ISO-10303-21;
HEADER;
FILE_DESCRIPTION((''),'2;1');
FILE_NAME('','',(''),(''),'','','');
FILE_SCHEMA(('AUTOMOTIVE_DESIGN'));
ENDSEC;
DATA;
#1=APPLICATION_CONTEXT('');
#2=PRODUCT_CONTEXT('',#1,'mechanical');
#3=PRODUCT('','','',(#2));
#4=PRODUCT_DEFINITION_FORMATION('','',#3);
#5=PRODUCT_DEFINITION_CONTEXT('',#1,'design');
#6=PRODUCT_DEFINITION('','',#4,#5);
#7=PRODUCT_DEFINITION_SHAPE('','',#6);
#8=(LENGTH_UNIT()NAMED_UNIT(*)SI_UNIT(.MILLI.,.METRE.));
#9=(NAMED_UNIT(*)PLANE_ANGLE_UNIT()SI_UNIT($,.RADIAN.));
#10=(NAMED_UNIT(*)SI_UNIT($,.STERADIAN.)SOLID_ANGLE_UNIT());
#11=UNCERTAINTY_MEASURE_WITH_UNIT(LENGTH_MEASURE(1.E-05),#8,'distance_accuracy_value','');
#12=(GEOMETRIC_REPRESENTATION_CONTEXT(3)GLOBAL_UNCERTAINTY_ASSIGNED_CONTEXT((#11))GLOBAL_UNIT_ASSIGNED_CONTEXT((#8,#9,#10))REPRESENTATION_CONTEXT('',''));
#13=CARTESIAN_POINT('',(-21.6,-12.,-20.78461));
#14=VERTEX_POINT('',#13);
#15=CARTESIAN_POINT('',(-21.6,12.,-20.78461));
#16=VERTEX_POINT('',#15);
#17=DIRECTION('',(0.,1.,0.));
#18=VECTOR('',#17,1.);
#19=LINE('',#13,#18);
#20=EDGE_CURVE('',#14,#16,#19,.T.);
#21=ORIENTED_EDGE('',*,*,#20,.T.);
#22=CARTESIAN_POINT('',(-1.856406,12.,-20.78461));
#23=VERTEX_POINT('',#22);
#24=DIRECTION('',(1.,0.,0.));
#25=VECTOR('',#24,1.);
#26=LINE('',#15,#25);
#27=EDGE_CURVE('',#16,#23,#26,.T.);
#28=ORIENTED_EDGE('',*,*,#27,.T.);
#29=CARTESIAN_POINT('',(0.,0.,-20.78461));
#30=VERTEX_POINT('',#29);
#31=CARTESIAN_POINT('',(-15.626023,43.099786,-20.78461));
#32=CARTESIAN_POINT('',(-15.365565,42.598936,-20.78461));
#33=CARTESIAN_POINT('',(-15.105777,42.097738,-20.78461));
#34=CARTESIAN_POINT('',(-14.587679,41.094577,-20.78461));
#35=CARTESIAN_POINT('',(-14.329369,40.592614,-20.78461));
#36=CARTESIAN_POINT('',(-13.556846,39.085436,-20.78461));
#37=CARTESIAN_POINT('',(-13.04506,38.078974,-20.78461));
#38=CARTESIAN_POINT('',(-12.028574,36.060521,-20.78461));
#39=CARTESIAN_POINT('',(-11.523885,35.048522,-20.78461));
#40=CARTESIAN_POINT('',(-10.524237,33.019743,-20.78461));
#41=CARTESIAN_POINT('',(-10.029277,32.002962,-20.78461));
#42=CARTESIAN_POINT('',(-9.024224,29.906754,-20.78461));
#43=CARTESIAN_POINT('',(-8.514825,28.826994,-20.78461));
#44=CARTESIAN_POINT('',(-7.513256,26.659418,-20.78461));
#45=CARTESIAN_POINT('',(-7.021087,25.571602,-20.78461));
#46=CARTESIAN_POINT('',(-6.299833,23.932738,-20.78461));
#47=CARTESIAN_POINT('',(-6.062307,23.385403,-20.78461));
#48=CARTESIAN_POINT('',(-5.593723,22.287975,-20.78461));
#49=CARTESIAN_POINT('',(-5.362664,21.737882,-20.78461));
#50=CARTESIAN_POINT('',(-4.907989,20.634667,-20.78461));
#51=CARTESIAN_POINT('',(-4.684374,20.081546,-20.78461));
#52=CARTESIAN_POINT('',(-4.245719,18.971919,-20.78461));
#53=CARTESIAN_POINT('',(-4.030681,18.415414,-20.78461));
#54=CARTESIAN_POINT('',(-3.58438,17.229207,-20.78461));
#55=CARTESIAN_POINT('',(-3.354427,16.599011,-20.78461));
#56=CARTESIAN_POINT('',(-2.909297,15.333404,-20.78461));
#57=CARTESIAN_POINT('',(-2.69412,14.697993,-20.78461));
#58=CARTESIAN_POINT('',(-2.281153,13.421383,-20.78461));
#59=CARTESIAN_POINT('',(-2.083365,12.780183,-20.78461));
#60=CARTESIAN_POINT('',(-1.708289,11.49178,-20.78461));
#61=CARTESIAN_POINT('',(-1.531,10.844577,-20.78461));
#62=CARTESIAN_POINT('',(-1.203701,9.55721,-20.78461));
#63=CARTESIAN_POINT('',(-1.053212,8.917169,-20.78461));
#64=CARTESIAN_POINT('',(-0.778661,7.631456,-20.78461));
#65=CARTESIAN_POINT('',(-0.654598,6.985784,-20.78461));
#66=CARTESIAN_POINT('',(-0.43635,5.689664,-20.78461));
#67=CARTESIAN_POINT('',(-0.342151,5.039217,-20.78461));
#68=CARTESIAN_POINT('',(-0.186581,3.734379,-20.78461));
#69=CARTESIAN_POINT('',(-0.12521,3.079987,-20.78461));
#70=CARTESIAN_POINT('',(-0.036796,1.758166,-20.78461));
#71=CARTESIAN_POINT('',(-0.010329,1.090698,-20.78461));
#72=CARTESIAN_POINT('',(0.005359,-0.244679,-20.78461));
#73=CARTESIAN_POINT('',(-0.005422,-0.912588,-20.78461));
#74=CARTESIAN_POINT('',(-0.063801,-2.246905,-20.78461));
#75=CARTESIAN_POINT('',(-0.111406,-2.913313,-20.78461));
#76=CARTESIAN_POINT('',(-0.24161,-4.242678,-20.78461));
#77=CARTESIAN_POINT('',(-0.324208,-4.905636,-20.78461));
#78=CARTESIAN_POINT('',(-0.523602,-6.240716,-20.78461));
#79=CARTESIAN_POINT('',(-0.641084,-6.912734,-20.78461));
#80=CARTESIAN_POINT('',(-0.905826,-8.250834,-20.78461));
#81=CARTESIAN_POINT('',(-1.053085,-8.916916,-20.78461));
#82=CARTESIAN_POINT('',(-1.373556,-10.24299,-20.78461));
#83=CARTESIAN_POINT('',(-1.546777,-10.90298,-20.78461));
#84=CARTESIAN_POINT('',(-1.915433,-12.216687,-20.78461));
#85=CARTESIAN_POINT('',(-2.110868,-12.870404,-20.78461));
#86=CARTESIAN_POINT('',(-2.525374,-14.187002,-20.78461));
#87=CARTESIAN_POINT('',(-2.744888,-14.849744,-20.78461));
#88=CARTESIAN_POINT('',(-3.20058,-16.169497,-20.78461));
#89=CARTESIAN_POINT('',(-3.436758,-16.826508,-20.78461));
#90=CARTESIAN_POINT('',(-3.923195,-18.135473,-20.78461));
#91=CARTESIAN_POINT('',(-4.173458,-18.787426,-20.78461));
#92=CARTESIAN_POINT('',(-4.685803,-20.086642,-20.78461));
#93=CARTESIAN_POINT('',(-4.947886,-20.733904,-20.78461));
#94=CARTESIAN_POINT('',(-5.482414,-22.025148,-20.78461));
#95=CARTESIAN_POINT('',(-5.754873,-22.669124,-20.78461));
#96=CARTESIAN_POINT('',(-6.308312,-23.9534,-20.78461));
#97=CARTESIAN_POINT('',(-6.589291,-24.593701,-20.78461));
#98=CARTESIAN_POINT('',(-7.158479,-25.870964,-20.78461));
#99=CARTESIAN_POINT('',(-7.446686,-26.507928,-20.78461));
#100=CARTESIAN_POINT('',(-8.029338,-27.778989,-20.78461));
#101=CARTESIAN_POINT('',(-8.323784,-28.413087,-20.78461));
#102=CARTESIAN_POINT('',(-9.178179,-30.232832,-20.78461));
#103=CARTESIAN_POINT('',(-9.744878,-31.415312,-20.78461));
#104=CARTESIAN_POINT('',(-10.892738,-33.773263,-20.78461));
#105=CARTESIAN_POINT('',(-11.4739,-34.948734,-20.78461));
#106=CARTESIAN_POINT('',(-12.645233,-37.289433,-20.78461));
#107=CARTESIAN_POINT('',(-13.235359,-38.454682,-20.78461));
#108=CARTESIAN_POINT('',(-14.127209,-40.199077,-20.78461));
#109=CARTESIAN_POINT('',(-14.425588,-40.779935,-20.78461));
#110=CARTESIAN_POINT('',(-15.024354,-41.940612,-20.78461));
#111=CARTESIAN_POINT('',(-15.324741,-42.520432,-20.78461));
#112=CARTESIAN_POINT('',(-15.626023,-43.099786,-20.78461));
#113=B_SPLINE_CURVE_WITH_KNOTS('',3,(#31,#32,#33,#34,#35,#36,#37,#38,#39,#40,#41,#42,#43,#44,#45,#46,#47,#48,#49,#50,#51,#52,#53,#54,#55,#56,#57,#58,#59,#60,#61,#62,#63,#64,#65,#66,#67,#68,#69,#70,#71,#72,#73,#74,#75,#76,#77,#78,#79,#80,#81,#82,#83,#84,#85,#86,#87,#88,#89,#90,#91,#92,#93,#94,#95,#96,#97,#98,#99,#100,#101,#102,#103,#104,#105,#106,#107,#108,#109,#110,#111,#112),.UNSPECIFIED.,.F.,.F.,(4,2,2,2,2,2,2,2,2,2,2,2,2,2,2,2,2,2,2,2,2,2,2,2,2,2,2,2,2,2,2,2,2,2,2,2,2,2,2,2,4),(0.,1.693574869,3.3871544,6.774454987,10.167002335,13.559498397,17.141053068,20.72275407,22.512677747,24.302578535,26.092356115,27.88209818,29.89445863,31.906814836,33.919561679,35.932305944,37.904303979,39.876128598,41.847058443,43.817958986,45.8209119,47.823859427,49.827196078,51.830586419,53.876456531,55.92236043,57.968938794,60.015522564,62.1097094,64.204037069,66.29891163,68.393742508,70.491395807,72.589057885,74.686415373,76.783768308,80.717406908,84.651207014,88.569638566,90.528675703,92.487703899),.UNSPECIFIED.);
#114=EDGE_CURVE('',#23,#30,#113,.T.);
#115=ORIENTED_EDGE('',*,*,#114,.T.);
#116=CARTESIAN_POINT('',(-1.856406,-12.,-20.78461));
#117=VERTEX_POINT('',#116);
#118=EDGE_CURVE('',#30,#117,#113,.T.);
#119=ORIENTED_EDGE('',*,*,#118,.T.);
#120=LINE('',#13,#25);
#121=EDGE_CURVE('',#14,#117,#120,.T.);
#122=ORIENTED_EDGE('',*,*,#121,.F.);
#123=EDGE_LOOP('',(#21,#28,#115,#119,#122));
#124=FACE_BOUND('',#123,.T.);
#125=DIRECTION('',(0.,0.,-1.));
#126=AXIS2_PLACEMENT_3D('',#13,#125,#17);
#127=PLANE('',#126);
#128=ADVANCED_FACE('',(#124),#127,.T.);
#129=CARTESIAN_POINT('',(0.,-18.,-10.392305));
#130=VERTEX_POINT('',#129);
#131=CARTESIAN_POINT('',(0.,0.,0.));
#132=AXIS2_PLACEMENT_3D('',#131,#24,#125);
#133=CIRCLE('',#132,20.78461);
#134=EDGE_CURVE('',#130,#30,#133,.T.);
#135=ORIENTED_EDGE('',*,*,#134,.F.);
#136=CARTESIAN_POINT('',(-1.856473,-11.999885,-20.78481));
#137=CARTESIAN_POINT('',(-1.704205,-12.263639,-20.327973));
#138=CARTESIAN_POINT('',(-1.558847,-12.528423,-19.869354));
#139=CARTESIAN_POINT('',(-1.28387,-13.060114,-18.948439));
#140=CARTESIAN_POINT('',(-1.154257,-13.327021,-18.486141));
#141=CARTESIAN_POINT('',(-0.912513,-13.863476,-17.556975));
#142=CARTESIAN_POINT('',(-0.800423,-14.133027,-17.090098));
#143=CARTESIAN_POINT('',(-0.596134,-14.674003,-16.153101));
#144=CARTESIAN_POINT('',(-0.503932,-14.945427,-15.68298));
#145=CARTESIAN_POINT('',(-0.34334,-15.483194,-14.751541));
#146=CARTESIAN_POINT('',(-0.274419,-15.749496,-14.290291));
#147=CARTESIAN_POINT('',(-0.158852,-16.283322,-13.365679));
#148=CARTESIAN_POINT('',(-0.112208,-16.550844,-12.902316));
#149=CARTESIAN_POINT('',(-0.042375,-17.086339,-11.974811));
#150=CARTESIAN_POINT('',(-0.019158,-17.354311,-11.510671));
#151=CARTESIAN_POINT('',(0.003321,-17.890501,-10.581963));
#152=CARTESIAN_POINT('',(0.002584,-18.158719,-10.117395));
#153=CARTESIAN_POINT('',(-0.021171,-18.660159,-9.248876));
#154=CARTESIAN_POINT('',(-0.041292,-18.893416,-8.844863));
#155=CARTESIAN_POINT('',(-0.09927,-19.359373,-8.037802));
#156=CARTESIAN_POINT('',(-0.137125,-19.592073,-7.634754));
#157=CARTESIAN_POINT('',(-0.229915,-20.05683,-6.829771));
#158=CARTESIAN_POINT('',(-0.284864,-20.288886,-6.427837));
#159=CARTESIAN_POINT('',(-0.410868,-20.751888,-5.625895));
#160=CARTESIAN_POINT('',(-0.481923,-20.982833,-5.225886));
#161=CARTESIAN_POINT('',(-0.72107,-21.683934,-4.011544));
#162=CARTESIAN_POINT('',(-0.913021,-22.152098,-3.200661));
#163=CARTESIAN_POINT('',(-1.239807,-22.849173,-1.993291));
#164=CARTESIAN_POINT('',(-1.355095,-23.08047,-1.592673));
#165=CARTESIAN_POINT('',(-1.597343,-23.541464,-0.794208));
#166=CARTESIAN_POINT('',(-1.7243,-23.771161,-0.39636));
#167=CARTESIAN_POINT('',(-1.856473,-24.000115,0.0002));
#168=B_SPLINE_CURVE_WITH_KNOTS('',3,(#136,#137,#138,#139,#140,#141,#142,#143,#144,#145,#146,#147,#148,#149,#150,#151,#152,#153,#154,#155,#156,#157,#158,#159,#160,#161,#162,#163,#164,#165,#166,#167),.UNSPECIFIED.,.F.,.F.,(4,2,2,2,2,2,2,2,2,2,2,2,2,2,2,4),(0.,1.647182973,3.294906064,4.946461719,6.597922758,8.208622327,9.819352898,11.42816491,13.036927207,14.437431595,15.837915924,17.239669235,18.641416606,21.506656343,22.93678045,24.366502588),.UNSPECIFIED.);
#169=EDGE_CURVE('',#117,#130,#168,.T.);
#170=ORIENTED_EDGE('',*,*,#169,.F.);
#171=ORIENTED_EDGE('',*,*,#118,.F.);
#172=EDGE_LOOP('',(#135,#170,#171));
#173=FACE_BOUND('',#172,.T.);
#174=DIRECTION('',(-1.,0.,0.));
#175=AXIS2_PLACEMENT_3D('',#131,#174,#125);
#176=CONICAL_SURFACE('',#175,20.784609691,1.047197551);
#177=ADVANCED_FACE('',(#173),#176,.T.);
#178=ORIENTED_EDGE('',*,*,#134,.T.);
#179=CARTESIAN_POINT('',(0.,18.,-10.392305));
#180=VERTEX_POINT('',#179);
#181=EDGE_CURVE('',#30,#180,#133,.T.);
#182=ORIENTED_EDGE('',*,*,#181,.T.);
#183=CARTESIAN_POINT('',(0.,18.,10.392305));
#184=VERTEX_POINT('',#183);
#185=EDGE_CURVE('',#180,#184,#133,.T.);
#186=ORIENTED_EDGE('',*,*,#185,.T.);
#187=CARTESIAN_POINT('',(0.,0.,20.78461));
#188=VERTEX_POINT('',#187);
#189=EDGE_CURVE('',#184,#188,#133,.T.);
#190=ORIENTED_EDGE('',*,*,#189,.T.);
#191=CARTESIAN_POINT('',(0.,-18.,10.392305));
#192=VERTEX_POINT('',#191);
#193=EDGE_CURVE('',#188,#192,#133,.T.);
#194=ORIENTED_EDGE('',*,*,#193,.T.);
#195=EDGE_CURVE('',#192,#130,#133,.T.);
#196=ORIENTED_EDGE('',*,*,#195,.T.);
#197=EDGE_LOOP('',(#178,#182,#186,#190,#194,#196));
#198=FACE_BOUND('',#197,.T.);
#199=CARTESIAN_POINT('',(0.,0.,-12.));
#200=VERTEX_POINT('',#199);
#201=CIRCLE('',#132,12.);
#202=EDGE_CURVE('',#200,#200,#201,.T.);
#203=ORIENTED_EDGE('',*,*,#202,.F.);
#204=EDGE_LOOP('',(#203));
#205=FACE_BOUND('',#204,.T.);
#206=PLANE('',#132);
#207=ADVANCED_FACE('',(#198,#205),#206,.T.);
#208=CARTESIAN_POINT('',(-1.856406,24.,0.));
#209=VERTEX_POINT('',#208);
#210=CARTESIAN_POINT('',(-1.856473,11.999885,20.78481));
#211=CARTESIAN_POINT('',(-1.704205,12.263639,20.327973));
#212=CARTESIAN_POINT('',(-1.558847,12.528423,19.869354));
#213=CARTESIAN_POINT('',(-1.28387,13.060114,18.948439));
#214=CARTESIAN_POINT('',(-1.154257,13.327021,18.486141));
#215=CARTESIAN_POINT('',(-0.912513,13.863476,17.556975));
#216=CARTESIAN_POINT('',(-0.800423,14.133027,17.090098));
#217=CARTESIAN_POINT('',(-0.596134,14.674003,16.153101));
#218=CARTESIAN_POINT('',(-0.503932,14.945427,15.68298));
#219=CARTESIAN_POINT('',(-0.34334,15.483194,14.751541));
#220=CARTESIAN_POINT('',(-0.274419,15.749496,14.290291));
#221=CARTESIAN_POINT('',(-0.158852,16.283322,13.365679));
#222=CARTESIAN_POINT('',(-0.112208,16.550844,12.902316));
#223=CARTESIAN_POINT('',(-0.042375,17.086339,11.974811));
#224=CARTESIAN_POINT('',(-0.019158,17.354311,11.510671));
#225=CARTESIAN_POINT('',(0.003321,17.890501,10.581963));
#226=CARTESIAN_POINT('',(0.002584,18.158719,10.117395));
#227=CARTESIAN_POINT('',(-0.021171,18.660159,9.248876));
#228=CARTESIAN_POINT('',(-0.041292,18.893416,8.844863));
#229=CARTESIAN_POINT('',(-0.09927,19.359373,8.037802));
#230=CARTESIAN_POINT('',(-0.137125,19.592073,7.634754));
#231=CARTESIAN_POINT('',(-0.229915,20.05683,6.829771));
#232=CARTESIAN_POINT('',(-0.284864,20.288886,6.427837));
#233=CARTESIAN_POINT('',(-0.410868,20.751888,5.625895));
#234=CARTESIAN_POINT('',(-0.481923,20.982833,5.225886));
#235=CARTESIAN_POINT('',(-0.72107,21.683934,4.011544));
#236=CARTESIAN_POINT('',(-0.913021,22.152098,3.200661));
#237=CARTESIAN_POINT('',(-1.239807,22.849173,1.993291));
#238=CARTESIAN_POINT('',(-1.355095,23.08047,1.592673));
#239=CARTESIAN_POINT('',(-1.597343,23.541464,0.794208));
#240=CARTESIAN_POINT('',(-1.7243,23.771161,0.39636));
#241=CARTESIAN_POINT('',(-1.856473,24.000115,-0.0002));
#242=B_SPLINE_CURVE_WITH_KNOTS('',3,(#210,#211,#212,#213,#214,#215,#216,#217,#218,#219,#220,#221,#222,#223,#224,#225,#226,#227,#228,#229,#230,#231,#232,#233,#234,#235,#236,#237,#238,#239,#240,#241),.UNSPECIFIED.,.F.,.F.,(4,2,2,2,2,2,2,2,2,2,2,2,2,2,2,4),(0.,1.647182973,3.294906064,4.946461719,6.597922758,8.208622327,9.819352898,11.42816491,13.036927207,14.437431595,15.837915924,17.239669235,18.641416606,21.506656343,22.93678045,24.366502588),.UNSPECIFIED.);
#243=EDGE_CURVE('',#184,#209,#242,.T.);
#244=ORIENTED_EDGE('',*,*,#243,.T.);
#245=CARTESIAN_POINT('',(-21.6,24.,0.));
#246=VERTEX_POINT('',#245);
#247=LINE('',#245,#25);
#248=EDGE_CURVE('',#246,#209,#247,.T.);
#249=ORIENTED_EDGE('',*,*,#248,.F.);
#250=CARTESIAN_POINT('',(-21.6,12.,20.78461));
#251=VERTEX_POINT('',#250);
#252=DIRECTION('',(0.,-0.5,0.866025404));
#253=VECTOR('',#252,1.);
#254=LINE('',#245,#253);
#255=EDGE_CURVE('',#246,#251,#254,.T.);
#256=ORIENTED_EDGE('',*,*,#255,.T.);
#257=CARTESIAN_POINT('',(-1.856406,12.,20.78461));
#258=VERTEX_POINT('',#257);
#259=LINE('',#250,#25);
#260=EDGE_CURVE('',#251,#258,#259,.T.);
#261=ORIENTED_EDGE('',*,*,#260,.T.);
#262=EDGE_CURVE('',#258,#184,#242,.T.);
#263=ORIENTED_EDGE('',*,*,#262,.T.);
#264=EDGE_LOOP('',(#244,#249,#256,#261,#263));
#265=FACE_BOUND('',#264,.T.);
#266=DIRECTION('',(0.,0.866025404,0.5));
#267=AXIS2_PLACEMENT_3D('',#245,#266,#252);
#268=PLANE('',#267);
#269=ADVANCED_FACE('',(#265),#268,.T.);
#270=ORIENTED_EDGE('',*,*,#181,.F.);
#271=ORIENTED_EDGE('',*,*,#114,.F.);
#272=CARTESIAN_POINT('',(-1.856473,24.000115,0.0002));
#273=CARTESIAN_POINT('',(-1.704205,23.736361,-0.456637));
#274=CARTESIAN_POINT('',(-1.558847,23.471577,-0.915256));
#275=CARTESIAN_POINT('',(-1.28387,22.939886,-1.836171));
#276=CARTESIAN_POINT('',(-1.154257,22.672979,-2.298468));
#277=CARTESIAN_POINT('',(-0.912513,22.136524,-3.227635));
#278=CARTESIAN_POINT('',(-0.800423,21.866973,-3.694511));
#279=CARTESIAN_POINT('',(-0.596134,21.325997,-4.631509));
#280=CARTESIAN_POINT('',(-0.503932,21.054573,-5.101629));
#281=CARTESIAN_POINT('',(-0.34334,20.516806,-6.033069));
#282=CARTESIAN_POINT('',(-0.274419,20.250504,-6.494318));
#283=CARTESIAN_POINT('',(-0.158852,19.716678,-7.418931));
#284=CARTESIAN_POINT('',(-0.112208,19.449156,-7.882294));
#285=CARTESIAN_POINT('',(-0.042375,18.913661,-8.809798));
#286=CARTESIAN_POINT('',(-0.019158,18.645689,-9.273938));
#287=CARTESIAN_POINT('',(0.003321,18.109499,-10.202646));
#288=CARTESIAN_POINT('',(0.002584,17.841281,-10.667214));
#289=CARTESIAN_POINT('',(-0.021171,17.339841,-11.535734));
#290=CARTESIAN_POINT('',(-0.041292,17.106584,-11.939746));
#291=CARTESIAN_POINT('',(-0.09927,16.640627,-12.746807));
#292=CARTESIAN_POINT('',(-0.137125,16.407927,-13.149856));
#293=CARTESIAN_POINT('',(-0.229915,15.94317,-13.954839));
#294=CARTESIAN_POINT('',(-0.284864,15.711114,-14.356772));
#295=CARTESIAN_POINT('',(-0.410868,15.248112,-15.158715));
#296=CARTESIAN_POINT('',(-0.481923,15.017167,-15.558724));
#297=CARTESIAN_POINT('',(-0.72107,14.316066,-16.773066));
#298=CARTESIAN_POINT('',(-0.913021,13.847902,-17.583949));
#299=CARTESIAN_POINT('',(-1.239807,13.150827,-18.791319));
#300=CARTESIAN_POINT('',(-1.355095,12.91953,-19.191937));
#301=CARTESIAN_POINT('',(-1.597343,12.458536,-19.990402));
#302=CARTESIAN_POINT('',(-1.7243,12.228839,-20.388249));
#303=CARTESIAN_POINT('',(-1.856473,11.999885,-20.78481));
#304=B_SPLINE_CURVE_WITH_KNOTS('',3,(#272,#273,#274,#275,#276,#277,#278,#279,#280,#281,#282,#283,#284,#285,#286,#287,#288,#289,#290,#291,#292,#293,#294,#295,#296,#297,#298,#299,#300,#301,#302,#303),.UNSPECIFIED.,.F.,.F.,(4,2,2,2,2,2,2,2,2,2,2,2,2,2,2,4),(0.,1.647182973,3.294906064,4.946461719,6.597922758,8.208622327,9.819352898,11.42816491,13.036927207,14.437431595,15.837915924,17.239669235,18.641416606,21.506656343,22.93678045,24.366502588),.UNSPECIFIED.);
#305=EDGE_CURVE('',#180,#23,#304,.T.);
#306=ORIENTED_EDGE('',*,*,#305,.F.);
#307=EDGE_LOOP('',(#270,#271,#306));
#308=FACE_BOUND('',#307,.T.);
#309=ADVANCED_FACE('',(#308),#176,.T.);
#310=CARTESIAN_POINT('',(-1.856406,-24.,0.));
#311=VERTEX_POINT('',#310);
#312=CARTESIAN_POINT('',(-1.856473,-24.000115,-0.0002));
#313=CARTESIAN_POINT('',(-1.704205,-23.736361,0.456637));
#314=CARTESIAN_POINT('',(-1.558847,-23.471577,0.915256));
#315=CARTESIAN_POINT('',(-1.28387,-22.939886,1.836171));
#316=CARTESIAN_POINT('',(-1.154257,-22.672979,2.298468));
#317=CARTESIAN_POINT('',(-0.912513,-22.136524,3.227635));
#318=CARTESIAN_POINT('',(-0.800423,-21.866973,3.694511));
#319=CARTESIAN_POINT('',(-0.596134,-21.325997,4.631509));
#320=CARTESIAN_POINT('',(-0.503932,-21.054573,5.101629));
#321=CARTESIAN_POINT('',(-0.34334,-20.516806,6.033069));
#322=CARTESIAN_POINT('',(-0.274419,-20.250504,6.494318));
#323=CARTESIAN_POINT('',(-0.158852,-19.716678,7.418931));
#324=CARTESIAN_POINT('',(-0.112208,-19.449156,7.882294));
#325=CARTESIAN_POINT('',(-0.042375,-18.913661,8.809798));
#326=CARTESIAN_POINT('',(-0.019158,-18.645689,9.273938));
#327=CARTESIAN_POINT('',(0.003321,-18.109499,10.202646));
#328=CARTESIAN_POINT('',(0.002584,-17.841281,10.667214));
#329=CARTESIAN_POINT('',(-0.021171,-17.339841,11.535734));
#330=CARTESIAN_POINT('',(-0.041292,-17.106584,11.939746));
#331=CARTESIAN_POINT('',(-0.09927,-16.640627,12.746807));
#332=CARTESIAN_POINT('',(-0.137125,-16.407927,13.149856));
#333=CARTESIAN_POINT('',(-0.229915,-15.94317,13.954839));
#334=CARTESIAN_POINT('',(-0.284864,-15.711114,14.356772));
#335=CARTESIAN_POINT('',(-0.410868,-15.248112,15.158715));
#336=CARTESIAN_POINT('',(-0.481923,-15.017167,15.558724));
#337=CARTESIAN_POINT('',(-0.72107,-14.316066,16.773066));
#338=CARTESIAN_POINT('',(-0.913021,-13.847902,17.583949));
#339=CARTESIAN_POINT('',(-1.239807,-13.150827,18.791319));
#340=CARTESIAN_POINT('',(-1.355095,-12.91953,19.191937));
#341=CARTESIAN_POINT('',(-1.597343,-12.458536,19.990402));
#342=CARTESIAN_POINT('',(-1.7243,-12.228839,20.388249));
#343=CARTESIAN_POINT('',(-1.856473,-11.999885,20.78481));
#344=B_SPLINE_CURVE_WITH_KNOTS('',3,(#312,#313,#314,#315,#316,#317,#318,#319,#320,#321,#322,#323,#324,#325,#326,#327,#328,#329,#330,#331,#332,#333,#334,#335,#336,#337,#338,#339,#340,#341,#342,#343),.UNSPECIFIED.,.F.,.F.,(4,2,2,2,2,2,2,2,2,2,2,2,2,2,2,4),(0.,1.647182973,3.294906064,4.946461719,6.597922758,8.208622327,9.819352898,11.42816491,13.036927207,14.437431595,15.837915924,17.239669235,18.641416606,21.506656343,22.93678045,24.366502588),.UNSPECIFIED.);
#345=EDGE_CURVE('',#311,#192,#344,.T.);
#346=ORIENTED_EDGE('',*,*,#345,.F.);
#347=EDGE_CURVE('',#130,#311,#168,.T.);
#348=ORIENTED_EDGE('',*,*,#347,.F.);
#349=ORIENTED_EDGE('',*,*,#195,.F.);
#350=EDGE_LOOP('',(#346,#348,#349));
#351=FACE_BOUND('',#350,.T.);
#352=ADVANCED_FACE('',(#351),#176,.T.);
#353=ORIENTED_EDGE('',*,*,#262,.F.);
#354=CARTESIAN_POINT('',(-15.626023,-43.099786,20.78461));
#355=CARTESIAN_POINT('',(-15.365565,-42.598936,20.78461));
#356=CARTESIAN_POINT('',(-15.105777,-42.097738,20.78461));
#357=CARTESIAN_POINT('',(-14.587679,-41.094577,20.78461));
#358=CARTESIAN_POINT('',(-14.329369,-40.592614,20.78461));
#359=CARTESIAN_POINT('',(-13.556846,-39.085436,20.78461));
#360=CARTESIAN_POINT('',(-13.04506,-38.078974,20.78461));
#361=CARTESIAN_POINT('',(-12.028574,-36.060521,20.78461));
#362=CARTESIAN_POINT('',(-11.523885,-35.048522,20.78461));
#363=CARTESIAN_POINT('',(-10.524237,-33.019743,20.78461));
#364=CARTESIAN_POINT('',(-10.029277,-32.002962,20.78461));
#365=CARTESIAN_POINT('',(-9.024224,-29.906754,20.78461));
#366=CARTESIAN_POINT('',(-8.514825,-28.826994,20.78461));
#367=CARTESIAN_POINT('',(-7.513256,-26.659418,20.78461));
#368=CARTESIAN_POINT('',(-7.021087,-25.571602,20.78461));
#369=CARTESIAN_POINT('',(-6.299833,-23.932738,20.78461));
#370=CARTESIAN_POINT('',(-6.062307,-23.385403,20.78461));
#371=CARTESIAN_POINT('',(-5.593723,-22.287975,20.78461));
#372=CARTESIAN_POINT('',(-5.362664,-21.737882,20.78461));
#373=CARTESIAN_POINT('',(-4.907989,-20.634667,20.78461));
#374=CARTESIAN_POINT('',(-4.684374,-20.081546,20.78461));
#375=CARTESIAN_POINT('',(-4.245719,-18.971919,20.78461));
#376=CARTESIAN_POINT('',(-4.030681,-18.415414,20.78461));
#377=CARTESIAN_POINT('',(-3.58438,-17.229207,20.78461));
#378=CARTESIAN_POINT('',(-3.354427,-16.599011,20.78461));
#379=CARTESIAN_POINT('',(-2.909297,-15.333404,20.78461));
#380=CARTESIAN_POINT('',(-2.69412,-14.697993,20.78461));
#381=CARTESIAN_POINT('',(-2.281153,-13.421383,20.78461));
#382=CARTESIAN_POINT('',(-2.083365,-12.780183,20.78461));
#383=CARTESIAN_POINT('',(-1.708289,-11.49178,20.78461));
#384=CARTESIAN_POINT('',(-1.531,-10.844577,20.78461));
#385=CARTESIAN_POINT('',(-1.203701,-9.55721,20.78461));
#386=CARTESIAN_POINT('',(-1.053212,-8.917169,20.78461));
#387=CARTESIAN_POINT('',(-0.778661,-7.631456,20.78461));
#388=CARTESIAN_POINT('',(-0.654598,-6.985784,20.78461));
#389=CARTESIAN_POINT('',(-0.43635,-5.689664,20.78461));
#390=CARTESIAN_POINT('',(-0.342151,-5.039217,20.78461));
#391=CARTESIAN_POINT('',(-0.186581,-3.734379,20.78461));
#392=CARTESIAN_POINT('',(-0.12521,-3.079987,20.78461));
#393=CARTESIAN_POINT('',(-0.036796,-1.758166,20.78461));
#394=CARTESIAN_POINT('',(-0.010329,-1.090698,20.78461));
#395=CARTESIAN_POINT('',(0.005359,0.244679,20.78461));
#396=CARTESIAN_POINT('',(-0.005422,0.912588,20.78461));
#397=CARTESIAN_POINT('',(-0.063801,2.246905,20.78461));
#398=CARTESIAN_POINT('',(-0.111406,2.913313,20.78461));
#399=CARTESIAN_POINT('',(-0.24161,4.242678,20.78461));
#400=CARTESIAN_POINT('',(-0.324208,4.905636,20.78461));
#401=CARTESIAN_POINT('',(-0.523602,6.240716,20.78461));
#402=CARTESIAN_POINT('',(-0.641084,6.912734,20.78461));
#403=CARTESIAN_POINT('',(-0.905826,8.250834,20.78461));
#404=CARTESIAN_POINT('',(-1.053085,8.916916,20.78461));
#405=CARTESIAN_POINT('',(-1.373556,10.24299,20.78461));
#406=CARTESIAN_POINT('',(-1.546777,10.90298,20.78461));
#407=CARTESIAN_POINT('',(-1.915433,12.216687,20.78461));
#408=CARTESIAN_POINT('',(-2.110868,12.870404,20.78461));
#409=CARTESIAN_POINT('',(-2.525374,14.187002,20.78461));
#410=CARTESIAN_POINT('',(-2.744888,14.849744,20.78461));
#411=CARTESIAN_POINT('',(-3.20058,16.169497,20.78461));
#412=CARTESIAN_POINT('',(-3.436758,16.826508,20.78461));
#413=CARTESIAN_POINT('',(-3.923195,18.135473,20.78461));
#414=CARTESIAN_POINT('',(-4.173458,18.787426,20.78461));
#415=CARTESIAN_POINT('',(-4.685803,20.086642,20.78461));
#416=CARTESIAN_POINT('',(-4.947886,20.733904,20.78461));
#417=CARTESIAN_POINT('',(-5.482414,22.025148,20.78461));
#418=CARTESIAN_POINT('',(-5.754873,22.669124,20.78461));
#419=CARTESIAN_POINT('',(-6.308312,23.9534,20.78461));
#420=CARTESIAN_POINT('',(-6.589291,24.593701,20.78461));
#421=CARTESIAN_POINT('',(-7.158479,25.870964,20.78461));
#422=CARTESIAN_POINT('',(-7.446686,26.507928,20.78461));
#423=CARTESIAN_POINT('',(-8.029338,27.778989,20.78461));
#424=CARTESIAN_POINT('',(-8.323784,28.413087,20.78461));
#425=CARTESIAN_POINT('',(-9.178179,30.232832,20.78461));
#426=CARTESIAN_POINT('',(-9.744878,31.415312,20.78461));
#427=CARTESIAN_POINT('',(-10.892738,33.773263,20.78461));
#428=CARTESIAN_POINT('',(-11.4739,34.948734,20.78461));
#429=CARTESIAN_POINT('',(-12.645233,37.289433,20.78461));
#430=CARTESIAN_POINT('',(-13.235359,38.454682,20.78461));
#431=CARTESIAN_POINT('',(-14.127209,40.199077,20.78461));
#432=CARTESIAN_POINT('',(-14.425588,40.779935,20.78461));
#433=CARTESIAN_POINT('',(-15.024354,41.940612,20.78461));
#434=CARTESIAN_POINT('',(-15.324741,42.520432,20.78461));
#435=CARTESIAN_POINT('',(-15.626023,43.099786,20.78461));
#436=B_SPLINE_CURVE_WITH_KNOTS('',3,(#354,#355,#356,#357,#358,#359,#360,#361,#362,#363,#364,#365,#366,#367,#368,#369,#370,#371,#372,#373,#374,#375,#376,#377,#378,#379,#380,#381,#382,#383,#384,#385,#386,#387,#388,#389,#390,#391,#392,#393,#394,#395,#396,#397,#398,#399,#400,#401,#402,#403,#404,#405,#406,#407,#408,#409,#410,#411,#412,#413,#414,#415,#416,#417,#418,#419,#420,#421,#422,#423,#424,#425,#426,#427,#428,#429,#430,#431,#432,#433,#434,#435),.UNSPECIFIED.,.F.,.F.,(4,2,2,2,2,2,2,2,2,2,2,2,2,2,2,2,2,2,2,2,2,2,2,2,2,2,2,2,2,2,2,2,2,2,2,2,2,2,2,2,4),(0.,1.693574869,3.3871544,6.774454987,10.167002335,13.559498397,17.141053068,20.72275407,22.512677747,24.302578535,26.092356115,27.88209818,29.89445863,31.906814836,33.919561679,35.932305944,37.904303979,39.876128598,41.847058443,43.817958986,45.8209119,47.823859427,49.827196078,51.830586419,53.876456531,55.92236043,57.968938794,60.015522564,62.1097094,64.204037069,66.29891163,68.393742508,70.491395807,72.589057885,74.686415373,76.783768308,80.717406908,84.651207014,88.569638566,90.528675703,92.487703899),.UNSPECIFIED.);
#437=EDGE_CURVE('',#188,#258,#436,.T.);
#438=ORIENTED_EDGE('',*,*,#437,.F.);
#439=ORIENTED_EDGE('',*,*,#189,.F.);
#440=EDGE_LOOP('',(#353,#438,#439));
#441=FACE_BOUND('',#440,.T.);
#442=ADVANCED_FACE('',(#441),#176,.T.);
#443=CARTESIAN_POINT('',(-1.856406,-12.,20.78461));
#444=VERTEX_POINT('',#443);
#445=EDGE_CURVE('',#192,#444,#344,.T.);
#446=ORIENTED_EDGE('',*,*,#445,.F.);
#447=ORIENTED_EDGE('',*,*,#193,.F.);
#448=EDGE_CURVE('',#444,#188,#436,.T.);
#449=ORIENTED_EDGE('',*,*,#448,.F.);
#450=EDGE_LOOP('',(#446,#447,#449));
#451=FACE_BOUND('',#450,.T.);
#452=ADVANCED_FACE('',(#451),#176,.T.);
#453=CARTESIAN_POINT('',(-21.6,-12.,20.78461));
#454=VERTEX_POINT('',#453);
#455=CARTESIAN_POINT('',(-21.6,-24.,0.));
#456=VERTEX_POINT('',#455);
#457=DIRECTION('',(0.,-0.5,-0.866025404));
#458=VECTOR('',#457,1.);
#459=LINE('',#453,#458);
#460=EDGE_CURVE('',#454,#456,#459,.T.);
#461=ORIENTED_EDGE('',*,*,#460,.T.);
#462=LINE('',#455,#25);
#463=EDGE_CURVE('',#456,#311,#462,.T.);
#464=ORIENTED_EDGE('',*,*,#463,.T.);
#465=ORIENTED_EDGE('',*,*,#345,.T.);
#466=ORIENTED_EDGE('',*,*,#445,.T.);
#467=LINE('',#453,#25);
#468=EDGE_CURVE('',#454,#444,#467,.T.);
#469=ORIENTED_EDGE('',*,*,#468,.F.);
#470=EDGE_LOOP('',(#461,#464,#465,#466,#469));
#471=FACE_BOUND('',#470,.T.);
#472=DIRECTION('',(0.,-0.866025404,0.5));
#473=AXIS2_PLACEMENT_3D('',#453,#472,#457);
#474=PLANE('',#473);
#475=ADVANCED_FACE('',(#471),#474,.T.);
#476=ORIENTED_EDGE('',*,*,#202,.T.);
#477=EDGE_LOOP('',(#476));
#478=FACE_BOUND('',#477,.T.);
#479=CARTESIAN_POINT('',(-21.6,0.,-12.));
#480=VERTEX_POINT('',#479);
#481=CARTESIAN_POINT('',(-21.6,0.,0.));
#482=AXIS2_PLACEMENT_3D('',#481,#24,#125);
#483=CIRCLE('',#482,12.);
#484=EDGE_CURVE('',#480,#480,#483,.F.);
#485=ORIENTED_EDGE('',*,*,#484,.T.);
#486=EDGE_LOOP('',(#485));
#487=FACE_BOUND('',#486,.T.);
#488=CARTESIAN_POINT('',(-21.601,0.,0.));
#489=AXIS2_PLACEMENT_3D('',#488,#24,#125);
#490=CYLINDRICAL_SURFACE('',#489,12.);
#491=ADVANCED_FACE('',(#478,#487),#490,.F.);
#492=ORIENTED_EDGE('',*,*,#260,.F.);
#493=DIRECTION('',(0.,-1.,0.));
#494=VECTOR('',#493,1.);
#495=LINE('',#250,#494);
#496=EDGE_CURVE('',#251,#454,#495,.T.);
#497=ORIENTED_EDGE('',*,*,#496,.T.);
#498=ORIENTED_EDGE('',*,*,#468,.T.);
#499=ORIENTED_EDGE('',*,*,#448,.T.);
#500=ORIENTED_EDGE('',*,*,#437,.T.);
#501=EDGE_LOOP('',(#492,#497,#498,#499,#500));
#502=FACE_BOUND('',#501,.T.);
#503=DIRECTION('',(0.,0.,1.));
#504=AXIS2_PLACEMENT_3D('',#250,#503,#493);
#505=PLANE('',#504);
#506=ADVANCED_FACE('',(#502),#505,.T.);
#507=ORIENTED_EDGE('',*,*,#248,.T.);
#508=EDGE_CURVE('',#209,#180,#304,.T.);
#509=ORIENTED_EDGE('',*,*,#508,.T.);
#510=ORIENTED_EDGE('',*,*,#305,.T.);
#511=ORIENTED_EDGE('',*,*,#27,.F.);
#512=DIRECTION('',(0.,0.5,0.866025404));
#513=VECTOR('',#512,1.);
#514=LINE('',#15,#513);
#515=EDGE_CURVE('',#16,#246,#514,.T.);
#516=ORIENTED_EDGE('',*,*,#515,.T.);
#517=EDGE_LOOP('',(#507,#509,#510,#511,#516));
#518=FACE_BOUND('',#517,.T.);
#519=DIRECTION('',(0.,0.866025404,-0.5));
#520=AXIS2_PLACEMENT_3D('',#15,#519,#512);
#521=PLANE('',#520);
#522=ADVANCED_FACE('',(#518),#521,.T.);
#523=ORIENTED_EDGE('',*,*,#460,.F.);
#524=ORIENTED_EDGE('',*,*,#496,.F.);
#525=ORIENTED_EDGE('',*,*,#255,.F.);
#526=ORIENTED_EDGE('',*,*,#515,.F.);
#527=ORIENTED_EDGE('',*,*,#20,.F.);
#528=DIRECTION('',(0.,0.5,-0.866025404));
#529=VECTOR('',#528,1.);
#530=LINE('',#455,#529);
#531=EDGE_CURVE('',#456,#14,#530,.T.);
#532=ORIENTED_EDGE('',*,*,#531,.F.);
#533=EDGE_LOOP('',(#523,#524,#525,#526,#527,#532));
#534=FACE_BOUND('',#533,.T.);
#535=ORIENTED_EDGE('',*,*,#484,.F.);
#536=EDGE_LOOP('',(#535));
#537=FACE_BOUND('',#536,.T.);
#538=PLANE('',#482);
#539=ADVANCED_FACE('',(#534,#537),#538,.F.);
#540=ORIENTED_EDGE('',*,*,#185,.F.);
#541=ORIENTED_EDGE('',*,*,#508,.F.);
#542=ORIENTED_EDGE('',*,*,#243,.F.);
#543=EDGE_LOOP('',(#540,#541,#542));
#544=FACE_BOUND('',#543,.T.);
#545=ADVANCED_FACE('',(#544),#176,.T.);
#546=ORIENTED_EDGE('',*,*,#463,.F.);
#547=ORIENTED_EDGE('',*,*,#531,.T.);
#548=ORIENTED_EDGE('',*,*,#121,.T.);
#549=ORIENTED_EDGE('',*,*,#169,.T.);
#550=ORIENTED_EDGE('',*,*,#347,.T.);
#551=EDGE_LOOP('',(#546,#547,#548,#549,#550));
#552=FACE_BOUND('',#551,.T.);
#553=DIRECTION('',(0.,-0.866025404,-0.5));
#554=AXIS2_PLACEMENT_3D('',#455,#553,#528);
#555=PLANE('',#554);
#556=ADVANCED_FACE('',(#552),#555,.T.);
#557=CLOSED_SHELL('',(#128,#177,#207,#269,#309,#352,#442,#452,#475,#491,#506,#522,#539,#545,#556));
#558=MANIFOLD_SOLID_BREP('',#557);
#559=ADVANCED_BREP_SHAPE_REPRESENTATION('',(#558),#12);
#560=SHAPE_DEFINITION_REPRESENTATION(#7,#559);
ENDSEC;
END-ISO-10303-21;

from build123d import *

# Parameters (mm, degrees)
BOSS_EXTRUDE1_DEPTH = 21.6
CUT_EXTRUDE1_REACH  = 23.6
SKETCH2_R           = 12
SKETCH3_OUTSIDE_W   = 135.272
SKETCH3_OUTSIDE_H   = 141.702
SKETCH3_OUTSIDE_R   = 20.784609691
CUT_EXTRUDE2_DEPTH  = 22.6
CUT_EXTRUDE2_TAPER  = 60


with BuildPart() as part:
    # Sketch1 → Boss-Extrude1 (new body)
    with BuildSketch(Plane(origin=(0, 0, 0), x_dir=(0, 0, -1), z_dir=(1, 0, 0))):
        Polygon((0, 24), (-20.784609691, 12), (-20.784609691, -12), (0, -24), (20.784609691, -12), (20.784609691, 12), align=None)
    extrude(amount=-BOSS_EXTRUDE1_DEPTH)

    # Sketch2 → Cut-Extrude1 (cut, up to next)
    with BuildSketch(Plane(origin=(0, 0, 0), x_dir=(0, 0, -1), z_dir=(1, 0, 0)), mode=Mode.PRIVATE) as cut_extrude1_sk1:
        Circle(SKETCH2_R)
    cut_extrude1_tool1 = extrude(cut_extrude1_sk1.sketch, amount=-CUT_EXTRUDE1_REACH, mode=Mode.PRIVATE) & part.part
    add(cut_extrude1_tool1.solids().sort_by_distance((0, 0, 0))[0], mode=Mode.SUBTRACT)

    # Sketch3 outside → Cut-Extrude2 (cut, through all)
    with BuildSketch(Plane(origin=(0, 0, 0), x_dir=(0, 0, -1), z_dir=(1, 0, 0))):
        Rectangle(SKETCH3_OUTSIDE_W, SKETCH3_OUTSIDE_H)
        Circle(SKETCH3_OUTSIDE_R, mode=Mode.SUBTRACT)
    extrude(amount=-CUT_EXTRUDE2_DEPTH, taper=CUT_EXTRUDE2_TAPER, mode=Mode.SUBTRACT)


solid = part.part
